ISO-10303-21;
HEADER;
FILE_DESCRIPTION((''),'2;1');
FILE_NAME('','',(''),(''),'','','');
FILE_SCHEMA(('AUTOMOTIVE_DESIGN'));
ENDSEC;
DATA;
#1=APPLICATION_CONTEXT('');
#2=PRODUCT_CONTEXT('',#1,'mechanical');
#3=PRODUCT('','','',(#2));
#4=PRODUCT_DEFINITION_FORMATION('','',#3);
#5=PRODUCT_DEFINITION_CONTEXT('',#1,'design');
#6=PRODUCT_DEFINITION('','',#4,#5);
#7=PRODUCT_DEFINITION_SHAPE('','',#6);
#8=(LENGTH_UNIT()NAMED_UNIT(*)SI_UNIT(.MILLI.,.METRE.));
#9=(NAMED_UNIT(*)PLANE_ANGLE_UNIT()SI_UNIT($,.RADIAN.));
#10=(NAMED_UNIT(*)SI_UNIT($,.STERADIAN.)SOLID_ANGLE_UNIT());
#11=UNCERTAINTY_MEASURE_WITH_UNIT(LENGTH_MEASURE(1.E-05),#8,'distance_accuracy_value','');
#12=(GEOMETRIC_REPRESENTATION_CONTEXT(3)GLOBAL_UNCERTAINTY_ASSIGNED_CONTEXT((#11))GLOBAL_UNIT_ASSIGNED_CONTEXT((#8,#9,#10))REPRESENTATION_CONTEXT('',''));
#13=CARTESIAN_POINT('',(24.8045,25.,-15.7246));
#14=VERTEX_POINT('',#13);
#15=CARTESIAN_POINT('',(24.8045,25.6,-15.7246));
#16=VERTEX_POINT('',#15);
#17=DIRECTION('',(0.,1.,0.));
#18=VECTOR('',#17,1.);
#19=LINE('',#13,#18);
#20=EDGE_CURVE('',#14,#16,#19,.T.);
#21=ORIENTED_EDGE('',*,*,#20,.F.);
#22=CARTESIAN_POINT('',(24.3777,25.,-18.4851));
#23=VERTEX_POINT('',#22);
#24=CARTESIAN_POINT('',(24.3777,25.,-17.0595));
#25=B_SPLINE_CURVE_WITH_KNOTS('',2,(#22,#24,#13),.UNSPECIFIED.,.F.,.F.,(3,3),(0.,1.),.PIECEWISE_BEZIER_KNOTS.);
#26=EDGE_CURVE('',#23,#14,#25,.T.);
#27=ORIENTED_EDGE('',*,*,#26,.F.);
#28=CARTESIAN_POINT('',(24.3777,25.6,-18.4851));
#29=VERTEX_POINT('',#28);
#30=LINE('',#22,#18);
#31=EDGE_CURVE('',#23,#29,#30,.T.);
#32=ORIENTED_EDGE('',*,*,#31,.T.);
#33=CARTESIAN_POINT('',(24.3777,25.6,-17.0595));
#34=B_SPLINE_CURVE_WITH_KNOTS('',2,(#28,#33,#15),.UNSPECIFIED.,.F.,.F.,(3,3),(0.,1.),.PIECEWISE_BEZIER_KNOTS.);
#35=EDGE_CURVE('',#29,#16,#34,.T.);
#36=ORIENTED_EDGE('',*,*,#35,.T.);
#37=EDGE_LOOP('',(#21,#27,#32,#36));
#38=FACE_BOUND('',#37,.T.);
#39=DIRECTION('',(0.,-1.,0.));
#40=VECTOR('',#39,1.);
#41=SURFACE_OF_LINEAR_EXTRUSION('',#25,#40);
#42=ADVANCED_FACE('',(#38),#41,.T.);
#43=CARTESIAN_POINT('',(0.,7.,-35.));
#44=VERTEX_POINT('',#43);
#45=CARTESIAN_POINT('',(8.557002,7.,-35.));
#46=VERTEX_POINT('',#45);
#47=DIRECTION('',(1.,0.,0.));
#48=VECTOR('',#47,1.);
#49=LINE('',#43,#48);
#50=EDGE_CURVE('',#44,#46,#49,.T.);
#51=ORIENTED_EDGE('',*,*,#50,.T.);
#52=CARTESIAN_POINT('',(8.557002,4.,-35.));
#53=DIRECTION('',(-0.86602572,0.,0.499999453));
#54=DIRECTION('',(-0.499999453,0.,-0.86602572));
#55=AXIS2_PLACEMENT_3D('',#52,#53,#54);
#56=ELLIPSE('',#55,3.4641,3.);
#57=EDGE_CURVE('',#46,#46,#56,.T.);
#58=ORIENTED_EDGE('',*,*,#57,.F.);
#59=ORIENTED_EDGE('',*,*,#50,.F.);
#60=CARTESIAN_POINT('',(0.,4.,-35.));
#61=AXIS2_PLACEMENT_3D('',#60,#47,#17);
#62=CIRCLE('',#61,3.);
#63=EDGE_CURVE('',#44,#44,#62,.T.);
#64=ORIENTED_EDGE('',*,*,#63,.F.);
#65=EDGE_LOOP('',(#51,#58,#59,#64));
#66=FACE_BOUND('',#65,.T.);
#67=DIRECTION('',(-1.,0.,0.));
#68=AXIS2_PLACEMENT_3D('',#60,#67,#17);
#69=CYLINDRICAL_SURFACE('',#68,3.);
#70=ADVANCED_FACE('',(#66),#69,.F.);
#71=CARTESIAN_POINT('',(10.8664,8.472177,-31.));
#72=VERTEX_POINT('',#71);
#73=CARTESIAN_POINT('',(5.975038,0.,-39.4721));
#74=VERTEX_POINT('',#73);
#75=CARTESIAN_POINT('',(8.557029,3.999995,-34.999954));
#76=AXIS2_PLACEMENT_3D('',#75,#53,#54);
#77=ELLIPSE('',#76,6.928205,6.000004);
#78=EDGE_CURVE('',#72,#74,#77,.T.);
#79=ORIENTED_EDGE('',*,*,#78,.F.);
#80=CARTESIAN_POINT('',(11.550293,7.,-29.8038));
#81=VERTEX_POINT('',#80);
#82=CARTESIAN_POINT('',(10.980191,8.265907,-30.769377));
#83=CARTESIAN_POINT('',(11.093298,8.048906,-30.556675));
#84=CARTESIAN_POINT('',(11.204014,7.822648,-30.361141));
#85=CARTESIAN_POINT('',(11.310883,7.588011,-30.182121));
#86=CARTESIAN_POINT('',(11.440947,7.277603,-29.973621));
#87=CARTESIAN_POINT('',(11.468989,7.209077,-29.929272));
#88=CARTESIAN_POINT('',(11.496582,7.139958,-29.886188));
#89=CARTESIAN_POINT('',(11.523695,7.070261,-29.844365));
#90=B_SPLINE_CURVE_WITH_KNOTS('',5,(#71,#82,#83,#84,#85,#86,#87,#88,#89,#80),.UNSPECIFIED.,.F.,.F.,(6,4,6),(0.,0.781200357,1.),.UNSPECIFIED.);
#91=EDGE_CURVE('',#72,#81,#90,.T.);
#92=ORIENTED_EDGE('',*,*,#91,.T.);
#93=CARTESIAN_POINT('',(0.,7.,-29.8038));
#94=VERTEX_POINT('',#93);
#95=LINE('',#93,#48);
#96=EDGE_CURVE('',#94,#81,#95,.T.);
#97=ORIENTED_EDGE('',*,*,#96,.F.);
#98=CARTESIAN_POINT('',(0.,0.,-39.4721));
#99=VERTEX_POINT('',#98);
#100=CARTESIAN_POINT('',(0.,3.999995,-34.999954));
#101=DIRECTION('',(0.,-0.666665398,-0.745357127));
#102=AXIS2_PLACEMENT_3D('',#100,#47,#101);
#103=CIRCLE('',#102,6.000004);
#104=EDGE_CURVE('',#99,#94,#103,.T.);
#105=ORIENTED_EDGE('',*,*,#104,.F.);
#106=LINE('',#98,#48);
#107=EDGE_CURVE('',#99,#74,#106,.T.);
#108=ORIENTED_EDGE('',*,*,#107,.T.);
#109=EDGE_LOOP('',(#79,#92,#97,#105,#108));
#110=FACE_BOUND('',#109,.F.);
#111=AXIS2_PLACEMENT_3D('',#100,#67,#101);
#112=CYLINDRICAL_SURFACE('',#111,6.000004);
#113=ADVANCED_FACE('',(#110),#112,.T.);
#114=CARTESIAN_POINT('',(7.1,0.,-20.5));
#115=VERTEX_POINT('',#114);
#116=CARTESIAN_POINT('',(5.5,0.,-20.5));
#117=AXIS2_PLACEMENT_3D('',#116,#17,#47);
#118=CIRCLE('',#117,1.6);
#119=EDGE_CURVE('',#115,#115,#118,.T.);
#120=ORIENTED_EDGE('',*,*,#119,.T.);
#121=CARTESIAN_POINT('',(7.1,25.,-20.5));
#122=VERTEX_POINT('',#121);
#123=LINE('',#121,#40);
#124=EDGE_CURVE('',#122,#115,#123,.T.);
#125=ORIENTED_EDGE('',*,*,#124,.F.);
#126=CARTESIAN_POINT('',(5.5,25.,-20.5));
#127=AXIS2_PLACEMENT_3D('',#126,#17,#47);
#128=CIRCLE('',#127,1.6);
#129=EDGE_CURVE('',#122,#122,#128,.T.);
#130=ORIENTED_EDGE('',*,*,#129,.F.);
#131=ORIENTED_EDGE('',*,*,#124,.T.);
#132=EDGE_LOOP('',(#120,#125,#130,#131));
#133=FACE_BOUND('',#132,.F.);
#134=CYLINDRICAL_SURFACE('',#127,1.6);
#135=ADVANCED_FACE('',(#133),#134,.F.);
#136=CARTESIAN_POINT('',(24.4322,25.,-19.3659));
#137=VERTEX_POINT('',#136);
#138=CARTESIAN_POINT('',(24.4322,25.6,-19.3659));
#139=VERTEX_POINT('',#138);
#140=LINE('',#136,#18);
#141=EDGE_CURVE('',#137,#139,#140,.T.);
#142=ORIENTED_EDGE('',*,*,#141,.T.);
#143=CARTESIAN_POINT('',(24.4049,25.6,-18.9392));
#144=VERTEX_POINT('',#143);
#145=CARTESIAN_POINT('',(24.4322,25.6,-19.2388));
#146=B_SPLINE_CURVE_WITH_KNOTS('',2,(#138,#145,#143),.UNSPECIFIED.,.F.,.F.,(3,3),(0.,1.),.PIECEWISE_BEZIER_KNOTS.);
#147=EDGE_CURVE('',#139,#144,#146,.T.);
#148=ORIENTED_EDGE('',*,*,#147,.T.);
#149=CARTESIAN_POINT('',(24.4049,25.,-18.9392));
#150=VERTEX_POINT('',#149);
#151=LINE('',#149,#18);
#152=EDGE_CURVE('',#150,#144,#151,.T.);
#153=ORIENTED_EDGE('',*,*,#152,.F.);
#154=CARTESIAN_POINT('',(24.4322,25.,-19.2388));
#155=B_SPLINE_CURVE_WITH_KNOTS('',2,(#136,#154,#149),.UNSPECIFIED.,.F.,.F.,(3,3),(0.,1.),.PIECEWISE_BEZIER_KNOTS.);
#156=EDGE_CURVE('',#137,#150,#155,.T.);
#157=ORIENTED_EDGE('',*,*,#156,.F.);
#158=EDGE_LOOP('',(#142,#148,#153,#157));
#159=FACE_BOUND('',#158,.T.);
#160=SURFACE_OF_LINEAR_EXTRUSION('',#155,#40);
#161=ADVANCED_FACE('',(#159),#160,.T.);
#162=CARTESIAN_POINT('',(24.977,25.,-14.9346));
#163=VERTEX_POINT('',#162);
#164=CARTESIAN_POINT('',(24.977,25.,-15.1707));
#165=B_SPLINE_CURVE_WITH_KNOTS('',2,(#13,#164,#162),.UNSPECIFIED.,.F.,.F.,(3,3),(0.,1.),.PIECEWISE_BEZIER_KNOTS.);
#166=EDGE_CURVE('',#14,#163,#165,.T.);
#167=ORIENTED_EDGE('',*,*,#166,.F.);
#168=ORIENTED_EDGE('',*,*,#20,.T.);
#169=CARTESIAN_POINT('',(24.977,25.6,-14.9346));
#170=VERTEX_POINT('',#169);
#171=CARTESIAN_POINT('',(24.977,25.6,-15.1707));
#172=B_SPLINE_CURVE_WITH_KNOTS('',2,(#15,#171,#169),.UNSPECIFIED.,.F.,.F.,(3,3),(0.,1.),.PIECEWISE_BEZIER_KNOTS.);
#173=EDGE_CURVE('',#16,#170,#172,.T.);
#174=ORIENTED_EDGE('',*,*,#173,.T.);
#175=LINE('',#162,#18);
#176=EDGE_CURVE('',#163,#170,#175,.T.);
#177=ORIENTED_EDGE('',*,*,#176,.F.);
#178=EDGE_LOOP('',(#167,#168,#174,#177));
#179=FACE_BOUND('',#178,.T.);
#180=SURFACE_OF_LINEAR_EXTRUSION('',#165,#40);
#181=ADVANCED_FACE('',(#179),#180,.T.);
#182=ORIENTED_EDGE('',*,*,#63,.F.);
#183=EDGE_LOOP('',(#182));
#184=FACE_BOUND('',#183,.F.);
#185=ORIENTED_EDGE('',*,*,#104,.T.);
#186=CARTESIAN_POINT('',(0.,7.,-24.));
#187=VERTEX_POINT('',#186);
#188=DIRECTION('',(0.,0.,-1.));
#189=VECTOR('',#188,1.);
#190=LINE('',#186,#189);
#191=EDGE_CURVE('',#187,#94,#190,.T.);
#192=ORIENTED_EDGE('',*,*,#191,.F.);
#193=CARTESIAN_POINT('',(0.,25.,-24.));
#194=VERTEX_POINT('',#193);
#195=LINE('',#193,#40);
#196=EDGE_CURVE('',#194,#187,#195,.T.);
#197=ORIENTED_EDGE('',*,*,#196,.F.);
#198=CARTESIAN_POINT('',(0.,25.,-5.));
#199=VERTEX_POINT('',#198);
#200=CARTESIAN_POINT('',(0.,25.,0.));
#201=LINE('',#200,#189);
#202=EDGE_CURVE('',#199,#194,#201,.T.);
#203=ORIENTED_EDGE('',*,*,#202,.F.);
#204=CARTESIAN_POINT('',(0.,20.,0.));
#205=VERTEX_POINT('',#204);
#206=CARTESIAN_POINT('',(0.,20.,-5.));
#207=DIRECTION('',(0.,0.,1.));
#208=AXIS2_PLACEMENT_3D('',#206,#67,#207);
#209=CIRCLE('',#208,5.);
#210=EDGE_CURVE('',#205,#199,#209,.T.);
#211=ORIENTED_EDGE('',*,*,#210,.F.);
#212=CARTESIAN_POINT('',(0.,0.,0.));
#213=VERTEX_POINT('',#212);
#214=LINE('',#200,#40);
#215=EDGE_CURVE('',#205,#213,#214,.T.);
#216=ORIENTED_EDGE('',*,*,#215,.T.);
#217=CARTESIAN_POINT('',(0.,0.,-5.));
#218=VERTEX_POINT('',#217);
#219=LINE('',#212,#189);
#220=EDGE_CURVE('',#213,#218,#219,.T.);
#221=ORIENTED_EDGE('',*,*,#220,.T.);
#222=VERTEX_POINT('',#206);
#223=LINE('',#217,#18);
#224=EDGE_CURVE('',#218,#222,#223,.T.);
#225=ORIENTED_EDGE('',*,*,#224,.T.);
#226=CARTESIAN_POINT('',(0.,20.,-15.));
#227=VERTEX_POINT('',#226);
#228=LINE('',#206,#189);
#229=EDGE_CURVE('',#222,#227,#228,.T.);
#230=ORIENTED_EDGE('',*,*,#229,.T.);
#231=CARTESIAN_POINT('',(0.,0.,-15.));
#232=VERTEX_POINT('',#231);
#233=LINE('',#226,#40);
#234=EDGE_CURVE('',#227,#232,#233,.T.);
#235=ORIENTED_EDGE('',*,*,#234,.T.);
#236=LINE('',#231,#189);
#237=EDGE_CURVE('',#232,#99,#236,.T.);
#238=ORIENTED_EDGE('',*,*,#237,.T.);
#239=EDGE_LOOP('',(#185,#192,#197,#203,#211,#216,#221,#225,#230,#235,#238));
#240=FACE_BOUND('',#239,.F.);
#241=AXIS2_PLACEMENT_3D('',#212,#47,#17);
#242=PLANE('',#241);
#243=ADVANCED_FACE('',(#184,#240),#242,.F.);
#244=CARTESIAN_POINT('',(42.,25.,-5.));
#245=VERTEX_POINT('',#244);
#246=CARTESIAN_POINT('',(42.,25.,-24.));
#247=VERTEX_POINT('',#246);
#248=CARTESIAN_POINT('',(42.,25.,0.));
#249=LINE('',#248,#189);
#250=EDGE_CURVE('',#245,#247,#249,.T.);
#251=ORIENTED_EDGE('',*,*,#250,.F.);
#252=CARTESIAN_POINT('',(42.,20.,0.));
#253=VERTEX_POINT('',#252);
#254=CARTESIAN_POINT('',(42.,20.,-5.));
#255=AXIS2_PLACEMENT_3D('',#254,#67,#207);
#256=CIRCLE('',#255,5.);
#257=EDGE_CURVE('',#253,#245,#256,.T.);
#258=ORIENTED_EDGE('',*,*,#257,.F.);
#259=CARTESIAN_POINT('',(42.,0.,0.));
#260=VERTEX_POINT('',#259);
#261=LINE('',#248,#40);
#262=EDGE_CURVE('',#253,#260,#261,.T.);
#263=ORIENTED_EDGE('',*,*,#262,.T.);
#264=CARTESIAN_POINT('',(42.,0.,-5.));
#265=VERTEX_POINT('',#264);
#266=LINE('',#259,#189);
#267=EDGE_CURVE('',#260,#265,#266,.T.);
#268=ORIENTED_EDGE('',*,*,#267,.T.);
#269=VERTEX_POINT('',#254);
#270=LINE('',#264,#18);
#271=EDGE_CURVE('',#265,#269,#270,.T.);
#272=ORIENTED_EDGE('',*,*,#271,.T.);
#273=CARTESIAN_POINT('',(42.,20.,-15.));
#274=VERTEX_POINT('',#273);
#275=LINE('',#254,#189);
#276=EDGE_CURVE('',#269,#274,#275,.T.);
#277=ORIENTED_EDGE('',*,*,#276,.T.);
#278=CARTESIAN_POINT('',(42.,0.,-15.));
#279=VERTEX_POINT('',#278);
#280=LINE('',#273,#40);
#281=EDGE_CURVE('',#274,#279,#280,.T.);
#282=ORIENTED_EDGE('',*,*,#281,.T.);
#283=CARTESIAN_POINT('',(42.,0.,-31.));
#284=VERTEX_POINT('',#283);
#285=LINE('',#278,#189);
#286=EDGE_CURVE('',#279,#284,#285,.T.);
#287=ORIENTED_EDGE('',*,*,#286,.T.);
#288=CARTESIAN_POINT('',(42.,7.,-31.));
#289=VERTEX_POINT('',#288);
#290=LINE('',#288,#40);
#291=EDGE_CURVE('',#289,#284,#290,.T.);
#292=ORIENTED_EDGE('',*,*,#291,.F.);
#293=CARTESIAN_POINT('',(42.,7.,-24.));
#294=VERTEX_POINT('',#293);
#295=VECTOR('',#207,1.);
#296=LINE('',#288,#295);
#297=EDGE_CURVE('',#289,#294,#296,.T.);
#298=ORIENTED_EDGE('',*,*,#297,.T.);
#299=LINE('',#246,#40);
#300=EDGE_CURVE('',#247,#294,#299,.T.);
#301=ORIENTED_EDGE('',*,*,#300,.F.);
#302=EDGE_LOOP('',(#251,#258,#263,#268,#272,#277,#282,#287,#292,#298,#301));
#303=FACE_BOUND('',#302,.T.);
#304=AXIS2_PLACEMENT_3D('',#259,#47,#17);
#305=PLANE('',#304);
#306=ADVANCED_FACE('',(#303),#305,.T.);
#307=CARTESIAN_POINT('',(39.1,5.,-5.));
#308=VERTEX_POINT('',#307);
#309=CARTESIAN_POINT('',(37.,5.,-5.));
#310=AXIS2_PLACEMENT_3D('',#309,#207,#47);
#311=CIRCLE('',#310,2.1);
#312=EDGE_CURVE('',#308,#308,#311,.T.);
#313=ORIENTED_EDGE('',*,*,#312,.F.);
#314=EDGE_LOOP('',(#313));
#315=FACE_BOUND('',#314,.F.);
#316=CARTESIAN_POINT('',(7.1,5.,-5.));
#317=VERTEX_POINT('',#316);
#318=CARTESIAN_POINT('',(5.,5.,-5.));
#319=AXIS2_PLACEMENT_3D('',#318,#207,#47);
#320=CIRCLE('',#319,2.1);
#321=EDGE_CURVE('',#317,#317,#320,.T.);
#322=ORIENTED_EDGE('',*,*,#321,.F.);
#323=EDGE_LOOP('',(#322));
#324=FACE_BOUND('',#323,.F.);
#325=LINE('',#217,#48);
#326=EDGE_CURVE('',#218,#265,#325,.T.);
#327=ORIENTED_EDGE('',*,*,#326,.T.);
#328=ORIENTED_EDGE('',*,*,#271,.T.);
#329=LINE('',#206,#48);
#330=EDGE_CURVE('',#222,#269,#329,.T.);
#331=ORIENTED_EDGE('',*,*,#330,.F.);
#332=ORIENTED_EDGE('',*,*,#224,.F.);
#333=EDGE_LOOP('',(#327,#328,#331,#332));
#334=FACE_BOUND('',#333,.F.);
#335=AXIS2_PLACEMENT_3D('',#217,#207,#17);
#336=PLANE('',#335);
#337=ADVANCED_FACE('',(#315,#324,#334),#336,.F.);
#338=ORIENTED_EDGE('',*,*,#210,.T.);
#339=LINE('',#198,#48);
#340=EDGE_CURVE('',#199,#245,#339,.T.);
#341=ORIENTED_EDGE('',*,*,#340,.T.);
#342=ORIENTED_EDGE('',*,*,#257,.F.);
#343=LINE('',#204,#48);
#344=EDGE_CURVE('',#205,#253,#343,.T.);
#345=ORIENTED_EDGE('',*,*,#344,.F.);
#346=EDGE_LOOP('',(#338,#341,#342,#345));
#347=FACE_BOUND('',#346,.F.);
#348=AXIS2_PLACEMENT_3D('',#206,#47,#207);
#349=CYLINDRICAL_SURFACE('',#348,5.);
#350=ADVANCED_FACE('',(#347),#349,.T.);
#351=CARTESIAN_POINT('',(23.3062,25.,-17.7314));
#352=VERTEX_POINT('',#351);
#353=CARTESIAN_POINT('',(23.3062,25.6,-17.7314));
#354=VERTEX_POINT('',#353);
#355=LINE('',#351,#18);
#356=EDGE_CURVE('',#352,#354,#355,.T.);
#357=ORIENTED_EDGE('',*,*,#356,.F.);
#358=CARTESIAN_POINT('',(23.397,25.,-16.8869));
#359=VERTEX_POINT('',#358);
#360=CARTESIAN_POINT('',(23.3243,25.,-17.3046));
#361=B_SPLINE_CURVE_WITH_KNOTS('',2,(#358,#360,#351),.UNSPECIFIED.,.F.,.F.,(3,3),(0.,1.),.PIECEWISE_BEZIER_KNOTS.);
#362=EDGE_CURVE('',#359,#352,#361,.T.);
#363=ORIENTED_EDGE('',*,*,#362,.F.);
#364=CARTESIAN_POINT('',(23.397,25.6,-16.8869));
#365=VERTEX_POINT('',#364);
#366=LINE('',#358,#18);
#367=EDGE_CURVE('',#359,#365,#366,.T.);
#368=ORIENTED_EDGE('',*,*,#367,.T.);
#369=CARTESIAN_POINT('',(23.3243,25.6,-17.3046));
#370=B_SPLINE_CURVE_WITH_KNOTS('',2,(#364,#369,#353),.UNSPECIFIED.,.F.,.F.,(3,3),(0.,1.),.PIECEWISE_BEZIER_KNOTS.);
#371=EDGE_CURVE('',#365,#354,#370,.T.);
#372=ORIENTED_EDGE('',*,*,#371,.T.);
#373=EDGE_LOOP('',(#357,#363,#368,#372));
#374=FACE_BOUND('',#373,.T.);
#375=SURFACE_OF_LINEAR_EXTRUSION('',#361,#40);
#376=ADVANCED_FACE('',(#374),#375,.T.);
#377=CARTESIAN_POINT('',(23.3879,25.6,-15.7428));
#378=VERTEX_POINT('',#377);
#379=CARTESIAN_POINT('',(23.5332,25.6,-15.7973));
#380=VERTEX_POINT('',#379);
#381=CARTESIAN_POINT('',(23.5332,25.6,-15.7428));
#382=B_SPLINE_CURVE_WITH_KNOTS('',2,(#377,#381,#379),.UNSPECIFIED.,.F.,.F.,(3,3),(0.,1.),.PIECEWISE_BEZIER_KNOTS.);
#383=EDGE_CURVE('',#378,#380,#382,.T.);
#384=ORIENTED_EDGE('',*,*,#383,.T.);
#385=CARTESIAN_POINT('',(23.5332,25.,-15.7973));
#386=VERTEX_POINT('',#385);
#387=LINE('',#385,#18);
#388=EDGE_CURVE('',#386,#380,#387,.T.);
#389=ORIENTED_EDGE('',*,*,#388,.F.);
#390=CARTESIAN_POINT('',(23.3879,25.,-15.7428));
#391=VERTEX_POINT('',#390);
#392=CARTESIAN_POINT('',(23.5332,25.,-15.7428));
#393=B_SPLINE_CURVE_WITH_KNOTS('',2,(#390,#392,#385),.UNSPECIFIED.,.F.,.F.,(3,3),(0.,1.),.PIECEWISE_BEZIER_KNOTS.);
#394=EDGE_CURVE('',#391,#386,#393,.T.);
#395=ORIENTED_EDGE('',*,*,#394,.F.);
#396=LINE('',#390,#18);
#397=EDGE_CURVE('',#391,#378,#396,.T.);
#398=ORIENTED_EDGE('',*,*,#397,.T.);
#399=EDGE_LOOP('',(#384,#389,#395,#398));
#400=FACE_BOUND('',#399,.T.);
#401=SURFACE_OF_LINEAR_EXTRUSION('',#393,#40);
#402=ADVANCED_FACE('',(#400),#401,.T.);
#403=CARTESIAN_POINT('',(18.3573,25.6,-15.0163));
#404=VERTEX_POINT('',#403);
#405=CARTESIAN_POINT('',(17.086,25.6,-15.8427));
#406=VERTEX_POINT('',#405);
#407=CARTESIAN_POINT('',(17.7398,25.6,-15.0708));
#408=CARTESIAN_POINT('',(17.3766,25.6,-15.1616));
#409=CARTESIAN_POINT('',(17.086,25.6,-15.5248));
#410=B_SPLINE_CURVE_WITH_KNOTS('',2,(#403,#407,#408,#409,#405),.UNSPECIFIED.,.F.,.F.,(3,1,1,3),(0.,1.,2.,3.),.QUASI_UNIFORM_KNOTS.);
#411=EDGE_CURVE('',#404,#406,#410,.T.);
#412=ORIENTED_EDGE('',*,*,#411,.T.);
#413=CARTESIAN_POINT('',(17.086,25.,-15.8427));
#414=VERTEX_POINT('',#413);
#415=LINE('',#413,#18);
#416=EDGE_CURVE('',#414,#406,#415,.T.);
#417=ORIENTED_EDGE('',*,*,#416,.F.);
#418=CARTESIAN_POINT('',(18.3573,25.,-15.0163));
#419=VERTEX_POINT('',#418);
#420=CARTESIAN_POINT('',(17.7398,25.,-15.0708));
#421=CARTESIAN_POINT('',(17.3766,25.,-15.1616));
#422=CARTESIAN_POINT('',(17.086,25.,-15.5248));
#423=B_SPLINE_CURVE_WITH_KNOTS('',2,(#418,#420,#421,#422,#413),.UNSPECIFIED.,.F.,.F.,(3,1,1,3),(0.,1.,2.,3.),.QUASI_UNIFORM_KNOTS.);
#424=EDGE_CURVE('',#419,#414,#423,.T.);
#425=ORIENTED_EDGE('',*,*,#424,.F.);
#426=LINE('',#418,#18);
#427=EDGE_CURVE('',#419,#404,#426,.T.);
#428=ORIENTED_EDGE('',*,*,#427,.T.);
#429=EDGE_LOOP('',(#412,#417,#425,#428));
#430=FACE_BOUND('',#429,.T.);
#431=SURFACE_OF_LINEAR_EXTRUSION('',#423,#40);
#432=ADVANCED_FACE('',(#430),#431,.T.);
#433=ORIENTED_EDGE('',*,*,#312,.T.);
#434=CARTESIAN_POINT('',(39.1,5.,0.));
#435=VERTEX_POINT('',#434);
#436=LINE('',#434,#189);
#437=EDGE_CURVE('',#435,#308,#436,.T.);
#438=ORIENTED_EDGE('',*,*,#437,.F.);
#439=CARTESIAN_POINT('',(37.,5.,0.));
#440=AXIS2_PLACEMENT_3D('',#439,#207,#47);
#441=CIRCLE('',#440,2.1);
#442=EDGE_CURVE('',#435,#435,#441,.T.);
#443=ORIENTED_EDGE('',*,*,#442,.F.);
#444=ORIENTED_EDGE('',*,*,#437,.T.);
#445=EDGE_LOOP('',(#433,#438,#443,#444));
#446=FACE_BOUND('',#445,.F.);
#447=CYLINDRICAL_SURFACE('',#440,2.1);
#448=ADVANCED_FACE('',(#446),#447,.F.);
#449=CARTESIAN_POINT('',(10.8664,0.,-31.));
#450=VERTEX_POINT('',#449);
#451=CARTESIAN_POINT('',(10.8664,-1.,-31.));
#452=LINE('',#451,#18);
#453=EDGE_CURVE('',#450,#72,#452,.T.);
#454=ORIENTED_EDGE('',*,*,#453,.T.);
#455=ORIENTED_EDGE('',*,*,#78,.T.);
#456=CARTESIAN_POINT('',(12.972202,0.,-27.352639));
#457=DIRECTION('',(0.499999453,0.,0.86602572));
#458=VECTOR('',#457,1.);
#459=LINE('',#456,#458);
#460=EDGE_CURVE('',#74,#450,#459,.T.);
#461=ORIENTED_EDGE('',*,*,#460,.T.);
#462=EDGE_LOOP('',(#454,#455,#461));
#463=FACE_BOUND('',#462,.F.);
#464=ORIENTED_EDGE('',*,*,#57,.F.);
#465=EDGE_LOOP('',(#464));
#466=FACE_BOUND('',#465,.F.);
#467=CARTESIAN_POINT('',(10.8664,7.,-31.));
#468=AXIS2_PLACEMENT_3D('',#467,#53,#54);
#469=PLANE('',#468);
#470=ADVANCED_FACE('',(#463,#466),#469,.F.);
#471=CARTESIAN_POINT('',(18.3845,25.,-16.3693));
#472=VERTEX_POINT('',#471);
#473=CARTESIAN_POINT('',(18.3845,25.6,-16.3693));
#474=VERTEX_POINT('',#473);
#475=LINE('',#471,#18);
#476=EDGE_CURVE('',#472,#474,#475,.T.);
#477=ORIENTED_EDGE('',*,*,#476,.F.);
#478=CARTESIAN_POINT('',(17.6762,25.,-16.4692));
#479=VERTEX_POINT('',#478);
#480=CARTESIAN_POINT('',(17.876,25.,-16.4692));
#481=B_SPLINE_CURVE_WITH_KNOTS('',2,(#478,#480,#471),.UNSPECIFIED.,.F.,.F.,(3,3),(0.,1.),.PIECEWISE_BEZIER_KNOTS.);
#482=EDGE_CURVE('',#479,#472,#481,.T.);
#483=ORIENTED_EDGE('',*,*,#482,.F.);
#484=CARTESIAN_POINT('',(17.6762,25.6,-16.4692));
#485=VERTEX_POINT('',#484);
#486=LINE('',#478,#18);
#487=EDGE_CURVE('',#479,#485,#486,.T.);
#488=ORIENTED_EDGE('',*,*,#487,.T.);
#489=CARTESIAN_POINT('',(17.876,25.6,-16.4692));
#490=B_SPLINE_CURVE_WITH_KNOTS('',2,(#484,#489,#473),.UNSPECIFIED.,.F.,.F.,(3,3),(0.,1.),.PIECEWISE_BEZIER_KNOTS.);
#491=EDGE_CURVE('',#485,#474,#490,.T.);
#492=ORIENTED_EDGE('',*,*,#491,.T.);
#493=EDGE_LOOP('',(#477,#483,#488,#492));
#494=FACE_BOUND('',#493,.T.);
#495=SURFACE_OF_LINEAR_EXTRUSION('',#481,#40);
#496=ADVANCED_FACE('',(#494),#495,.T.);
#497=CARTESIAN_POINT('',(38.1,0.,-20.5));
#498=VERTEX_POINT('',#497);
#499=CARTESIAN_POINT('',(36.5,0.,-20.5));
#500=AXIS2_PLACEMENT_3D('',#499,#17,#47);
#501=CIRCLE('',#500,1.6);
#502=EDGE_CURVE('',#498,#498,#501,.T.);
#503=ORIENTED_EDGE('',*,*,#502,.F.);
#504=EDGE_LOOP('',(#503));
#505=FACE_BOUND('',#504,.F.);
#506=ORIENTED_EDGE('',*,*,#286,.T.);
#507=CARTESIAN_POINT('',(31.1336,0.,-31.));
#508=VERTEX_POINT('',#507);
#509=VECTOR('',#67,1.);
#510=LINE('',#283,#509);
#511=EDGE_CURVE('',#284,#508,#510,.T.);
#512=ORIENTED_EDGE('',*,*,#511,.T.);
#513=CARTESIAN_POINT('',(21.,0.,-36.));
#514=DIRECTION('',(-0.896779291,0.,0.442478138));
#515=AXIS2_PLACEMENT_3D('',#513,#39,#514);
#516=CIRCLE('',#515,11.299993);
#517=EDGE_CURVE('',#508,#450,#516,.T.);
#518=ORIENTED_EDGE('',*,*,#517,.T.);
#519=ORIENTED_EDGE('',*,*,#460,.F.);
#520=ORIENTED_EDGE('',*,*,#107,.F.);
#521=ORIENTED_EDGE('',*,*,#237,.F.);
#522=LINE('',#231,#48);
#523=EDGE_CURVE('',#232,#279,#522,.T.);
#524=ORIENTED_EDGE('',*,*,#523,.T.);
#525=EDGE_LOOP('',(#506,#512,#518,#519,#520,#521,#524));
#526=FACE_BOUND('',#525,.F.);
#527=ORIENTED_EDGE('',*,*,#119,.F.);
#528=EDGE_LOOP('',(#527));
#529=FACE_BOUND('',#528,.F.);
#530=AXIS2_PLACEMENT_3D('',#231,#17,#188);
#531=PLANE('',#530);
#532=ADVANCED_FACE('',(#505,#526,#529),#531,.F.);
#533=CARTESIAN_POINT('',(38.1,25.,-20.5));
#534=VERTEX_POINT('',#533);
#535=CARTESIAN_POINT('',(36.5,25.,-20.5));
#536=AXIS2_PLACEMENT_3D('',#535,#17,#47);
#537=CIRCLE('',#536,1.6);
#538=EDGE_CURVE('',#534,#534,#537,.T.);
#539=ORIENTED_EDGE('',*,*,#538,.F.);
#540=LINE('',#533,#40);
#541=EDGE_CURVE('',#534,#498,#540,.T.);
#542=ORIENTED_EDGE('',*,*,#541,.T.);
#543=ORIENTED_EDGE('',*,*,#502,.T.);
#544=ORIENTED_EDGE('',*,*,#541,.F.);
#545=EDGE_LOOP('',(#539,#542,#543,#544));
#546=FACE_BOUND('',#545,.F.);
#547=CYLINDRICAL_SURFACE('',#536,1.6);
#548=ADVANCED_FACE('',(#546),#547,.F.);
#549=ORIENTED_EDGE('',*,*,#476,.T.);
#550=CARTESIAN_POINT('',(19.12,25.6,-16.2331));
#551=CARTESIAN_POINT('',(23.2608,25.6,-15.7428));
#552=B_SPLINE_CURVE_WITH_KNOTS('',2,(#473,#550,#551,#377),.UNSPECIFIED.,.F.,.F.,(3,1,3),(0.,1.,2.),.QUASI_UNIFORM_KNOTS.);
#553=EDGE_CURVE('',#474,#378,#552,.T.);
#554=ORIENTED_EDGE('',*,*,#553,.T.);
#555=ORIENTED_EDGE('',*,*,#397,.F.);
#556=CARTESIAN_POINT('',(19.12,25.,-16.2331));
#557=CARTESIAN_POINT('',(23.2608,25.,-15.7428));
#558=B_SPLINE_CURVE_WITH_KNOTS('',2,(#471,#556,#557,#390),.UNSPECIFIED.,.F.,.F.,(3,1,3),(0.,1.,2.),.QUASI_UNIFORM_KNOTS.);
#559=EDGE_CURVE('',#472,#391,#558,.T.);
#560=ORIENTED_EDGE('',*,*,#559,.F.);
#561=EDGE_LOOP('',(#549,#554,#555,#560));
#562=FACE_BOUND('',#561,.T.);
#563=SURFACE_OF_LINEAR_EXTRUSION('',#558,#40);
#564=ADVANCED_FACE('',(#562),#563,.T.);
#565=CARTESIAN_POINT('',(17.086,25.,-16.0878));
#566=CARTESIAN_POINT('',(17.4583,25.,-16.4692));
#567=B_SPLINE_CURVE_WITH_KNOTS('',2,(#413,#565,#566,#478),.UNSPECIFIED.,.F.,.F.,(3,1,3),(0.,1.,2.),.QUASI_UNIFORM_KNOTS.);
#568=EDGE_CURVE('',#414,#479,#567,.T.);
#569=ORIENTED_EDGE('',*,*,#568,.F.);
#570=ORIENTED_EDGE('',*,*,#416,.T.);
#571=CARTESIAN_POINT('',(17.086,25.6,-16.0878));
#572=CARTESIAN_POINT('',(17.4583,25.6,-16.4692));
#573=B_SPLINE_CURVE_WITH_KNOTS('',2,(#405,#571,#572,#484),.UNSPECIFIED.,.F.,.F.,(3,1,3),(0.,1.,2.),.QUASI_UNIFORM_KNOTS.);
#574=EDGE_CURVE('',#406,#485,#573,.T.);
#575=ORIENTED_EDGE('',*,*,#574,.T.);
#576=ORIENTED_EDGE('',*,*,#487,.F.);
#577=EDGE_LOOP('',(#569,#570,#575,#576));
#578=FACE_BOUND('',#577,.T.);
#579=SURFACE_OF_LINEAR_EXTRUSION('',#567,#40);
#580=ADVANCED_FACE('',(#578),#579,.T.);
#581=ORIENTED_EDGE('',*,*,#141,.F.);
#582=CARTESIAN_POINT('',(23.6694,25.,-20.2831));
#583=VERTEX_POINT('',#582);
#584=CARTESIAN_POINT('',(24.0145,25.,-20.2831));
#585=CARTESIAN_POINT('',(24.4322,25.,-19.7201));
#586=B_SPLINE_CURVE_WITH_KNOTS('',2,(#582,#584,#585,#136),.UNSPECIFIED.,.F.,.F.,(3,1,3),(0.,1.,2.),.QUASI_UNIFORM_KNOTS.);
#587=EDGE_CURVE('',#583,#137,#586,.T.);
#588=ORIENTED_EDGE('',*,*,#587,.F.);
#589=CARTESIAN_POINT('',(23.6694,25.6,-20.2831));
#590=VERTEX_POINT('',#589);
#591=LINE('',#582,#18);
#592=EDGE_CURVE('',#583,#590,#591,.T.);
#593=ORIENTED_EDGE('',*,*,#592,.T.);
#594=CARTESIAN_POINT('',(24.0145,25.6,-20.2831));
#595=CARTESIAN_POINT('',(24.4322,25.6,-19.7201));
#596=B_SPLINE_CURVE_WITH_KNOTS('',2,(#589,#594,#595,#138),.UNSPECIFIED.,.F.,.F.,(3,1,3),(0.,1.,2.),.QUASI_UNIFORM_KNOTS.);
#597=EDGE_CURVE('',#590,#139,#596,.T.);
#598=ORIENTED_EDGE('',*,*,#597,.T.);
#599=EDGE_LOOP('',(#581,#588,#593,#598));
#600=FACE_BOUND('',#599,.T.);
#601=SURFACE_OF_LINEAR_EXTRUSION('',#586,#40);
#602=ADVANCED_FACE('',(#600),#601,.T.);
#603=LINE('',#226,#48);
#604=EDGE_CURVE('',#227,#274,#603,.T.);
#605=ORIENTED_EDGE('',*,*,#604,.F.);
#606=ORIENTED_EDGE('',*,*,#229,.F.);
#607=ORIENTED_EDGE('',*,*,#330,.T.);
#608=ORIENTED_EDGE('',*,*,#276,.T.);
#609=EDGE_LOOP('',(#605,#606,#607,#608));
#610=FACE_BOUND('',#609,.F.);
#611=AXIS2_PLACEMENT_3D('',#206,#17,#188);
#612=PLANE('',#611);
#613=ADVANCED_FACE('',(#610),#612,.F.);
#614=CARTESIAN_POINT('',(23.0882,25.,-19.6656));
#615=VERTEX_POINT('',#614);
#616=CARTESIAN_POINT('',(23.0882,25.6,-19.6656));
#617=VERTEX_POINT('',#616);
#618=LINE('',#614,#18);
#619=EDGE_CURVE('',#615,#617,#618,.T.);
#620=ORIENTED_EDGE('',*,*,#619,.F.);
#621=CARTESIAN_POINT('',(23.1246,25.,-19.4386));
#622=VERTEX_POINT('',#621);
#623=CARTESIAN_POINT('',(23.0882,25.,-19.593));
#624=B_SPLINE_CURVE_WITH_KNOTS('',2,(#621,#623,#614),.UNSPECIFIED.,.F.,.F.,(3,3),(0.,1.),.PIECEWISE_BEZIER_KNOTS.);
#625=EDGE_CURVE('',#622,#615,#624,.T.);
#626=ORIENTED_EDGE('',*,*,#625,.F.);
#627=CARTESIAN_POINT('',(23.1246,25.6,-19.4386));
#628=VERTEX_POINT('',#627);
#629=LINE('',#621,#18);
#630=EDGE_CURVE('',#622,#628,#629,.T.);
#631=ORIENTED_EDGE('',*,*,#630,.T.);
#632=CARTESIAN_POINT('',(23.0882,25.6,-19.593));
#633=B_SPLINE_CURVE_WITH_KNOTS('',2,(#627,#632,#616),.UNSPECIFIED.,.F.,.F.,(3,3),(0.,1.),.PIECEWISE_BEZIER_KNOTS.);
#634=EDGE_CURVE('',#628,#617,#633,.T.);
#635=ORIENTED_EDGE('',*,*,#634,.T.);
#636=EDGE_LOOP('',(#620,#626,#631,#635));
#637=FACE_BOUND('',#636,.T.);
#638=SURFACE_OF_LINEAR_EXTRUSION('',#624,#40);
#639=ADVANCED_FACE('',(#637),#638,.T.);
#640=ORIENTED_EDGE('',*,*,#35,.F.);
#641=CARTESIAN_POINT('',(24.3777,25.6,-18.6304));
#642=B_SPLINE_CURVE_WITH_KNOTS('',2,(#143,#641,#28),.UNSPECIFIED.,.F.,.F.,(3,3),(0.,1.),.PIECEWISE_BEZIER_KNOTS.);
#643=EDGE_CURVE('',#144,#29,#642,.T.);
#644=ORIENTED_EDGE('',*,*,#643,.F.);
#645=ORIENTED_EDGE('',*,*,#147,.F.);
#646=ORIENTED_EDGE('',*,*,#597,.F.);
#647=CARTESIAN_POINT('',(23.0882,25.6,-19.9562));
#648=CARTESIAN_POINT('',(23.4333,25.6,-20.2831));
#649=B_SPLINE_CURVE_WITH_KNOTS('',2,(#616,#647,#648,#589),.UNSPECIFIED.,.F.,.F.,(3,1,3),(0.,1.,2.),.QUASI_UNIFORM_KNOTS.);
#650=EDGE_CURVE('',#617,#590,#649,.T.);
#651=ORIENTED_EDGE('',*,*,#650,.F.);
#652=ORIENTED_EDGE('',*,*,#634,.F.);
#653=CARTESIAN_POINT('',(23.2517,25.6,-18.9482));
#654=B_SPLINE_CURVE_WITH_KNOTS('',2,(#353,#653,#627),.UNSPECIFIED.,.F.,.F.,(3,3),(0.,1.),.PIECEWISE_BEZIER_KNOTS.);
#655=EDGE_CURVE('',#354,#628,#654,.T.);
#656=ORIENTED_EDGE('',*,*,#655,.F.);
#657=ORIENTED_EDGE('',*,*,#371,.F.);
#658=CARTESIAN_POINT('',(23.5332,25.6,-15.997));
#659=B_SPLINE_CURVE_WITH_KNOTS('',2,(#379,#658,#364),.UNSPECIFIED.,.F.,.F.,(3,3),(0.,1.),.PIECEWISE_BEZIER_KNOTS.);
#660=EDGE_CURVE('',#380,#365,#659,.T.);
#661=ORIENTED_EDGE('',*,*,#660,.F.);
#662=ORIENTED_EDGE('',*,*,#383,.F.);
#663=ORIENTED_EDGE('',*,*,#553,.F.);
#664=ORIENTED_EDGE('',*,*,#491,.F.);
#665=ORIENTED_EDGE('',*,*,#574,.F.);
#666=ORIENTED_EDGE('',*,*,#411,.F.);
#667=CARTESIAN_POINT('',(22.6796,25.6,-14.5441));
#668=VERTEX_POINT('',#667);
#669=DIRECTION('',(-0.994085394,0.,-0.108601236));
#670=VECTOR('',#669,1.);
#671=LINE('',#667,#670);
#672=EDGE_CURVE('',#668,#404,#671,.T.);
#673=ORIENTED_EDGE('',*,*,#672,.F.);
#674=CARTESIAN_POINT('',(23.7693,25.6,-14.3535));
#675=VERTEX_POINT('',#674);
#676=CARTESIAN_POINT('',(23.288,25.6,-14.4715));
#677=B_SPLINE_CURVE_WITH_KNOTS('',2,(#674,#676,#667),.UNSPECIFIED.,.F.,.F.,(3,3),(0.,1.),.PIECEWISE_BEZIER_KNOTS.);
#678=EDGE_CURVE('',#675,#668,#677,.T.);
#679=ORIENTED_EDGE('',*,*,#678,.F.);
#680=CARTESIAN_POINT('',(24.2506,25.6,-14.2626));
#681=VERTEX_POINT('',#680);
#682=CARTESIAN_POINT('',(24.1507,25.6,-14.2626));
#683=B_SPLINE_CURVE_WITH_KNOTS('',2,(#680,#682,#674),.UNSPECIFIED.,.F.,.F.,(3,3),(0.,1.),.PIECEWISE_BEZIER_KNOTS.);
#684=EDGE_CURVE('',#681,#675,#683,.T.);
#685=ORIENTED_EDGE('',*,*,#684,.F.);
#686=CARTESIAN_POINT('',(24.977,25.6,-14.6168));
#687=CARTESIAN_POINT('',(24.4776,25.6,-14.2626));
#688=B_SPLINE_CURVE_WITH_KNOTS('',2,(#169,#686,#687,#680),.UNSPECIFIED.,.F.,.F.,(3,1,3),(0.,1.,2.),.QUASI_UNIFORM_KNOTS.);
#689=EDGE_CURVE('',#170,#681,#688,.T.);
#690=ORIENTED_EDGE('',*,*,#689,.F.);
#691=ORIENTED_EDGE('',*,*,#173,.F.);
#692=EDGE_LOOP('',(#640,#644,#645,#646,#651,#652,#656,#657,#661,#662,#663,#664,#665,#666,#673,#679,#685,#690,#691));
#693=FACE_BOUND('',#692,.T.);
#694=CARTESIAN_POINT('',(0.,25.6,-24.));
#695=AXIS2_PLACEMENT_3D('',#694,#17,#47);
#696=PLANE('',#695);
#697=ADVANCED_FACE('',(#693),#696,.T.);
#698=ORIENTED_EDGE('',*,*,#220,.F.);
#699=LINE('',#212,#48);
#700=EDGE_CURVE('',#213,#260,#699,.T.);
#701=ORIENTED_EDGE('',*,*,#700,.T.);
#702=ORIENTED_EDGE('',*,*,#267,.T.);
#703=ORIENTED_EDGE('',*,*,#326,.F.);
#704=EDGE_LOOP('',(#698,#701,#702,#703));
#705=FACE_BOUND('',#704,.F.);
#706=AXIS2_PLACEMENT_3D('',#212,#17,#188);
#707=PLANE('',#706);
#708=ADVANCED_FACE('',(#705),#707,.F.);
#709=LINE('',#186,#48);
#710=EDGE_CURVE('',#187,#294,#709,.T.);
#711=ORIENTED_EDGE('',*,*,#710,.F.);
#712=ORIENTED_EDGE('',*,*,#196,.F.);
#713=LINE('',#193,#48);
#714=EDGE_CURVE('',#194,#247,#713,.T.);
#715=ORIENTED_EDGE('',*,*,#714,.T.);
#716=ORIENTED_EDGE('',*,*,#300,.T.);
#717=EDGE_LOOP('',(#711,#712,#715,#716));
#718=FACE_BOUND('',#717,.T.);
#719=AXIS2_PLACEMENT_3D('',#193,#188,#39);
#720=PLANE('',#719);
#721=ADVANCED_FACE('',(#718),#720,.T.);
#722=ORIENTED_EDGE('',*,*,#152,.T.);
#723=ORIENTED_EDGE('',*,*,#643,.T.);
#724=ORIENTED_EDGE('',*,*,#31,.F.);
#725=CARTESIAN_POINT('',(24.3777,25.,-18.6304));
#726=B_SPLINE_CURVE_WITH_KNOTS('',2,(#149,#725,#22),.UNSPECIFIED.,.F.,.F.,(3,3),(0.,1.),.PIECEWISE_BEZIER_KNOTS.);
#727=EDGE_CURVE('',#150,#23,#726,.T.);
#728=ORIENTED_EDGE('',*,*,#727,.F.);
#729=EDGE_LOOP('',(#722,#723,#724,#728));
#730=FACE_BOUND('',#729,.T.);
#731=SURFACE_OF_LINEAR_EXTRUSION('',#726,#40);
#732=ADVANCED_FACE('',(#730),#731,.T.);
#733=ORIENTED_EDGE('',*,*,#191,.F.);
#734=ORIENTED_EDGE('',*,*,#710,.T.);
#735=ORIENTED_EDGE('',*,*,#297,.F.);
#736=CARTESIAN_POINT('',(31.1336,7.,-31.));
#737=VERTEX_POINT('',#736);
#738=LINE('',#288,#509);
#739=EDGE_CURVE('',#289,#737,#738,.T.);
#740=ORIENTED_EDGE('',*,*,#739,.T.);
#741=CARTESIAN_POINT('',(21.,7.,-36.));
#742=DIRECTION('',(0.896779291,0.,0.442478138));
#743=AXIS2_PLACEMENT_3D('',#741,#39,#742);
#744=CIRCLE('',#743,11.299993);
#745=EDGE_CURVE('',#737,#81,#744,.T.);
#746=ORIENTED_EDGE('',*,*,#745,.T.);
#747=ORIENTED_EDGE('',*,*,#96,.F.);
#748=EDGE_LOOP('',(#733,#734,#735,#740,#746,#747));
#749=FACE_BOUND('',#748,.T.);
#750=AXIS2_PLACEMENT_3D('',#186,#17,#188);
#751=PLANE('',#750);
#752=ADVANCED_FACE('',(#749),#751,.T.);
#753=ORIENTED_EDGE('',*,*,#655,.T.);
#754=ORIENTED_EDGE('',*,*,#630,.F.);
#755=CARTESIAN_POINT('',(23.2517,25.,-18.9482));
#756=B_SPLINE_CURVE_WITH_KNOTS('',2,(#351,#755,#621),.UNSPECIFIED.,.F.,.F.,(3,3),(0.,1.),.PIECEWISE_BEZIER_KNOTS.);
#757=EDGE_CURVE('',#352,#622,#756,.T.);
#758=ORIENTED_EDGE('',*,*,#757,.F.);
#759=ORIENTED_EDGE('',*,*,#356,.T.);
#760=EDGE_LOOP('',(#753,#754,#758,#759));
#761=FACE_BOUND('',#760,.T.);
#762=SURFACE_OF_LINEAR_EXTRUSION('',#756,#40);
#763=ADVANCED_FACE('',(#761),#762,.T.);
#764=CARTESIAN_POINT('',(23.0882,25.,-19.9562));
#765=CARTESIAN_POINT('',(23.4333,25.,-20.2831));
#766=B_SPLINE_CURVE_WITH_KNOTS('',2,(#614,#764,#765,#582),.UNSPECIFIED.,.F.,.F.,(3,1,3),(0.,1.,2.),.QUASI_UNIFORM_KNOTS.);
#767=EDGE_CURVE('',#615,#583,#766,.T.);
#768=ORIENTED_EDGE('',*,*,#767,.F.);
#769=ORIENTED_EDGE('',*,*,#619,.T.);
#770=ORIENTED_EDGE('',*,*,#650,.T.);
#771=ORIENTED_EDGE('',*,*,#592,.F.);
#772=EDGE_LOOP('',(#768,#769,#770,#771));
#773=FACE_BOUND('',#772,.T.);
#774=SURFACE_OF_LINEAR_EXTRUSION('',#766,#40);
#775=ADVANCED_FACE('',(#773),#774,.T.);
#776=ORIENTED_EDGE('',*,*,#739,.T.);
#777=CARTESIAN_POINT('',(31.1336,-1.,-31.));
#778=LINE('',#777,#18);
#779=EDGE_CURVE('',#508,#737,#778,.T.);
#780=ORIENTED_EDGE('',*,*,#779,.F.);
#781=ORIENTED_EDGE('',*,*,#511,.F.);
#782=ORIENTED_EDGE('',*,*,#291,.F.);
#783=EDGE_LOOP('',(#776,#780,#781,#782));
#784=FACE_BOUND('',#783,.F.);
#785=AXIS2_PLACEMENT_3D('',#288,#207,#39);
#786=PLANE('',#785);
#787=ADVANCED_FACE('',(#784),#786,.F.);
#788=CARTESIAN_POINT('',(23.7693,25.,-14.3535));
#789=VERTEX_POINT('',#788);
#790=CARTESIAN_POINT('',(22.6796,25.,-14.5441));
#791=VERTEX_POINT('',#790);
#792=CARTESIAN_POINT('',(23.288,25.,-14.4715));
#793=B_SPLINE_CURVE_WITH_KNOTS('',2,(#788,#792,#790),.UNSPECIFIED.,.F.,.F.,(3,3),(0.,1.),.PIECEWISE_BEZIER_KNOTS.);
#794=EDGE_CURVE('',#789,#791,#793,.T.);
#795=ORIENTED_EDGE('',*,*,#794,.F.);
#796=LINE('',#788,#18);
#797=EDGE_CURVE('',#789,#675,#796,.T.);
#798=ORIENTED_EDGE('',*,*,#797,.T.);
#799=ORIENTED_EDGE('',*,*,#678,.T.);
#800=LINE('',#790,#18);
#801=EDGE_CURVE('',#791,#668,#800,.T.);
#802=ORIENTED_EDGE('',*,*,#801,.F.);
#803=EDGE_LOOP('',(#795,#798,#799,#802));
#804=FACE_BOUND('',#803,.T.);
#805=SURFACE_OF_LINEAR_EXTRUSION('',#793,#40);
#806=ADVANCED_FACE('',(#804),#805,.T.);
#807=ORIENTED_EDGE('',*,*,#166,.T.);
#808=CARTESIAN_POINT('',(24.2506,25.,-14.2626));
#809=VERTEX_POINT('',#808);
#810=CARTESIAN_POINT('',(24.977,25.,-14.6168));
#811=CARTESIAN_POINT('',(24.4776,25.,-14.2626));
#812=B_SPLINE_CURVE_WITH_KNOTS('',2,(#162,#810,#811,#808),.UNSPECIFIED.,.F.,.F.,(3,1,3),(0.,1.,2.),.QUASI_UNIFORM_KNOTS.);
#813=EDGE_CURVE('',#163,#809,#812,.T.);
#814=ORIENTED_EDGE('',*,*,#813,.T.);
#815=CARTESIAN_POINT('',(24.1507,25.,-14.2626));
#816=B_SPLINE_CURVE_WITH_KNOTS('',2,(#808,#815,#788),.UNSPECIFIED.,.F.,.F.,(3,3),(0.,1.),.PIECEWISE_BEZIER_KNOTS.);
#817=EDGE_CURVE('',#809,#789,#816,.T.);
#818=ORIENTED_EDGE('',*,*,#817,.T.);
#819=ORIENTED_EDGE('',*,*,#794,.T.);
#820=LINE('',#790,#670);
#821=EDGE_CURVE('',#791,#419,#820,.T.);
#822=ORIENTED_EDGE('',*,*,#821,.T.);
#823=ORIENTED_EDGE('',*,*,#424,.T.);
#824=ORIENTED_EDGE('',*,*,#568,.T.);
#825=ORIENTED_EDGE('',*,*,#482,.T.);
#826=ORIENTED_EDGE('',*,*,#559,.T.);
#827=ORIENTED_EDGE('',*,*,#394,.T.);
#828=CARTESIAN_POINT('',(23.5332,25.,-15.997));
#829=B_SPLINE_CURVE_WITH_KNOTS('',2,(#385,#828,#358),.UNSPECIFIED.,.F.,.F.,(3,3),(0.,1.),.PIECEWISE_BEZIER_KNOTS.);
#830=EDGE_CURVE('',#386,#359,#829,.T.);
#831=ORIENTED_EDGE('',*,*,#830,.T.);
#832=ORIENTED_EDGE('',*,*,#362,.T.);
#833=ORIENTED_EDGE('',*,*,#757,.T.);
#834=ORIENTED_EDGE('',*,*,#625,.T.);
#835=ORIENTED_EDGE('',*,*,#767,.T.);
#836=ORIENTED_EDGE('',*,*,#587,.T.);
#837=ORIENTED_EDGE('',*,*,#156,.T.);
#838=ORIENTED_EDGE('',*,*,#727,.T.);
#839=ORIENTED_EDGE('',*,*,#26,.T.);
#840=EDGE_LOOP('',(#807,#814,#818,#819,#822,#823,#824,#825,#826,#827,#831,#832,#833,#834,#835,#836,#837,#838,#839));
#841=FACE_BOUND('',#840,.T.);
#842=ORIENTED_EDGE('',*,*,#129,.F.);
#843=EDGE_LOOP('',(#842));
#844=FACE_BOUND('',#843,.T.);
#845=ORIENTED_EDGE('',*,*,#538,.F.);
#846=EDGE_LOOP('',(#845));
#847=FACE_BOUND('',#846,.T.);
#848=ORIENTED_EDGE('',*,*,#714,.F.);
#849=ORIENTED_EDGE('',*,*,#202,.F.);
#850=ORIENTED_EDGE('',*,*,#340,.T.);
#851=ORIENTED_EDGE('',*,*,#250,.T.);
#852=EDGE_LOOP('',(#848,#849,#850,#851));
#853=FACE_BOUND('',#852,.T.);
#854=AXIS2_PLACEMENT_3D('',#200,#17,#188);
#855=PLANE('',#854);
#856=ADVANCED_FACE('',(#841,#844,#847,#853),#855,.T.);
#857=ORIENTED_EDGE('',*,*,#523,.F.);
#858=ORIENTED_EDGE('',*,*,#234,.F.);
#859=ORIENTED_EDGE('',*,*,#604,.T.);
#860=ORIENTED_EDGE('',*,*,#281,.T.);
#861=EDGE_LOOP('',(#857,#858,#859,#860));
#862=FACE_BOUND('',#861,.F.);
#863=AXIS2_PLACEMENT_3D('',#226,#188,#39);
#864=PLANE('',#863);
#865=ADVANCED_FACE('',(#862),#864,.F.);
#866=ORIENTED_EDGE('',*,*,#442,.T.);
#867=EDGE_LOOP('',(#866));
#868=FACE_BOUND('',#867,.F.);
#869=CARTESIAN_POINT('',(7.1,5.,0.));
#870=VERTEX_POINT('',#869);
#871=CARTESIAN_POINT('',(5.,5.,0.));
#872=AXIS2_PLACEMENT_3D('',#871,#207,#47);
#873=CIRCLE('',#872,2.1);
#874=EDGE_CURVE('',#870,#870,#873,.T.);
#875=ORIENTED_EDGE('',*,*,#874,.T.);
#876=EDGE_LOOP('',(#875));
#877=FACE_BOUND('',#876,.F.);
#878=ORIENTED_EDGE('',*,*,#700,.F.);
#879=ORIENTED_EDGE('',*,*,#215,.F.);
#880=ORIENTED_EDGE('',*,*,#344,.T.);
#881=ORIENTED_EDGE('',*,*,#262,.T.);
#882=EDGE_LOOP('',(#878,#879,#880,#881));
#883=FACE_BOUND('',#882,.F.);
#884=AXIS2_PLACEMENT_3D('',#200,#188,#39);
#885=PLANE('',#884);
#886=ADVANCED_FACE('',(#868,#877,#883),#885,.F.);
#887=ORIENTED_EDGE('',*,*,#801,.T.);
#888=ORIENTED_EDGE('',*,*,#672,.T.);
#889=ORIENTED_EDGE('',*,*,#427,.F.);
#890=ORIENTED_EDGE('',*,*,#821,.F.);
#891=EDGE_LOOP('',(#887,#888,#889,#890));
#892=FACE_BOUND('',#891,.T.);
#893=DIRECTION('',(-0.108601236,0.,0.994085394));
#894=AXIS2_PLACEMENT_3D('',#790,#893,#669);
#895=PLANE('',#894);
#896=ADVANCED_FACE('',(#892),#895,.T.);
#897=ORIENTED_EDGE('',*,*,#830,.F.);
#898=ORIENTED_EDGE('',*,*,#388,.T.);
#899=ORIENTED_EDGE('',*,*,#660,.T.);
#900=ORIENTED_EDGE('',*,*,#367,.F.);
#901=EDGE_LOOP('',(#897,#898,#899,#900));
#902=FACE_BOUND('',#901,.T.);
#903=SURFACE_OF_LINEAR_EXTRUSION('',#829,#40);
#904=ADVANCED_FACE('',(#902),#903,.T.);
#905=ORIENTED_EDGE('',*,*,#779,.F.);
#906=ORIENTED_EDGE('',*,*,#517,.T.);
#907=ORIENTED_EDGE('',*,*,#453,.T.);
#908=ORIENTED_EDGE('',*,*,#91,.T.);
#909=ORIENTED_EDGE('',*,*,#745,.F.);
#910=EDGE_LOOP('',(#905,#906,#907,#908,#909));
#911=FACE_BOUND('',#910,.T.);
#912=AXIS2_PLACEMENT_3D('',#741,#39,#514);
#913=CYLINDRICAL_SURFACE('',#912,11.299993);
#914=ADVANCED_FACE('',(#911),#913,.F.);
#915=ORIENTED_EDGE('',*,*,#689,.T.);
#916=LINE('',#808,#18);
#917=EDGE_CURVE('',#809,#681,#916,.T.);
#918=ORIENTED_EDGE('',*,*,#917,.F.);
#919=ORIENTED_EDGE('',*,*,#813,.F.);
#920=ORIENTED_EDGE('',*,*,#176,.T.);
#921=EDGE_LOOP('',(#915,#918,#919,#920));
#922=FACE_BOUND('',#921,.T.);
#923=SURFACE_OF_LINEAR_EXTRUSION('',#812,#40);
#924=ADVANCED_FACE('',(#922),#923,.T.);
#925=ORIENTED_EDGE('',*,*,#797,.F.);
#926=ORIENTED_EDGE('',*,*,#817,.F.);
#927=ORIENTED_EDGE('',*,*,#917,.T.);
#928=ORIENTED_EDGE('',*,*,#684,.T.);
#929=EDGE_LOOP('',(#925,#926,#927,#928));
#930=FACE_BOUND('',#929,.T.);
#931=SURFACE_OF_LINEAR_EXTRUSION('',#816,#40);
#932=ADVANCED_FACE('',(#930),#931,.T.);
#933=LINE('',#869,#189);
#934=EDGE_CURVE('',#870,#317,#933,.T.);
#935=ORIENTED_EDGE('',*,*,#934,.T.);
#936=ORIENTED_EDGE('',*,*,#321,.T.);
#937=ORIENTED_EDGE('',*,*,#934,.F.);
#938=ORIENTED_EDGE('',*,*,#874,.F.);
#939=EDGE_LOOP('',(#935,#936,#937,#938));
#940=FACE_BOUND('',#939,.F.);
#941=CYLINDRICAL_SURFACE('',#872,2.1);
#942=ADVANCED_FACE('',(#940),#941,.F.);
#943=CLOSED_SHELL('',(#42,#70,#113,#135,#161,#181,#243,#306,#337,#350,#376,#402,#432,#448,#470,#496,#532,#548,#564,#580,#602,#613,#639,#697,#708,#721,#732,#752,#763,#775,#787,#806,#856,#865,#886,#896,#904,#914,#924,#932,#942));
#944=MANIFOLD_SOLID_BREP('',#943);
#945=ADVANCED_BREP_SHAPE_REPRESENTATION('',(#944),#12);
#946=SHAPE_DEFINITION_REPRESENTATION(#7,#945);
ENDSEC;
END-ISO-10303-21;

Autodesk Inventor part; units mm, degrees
ref_plane "YZ Plane" through (0, 0, 0) normal (1, 0, 0) x (0, 1, 0)
ref_plane "XZ Plane" through (0, 0, 0) normal (0, 1, 0) x (-1, 0, 0)
ref_plane "XY Plane" through (0, 0, 0) normal (0, 0, 1) x (1, 0, 0)
sketch "Sketch1" plane through (0, 0, 0) normal (1, 0, 0) x (0, 1, 0)
  line L0 (0, 0) -> (0, -5)
  line L1 (0, -5) -> (20, -5)
  line L2 (20, -5) -> (20, -15)
  line L3 (20, -15) -> (0, -15)
  line L4 (0, -15) -> (0, -39.4721)
  line L5 (25, 0) -> (25, -24)
  line L6 (25, -24) -> (7, -24)
  line L7 (7, -24) -> (7, -29.8038)
  line L8 (25, 0) -> (0, 0)
  circle A0 centre (4, -35) radius 3
  arc A1 (0, -39.4721) -> (7, -29.8038) centre (4, -35) ccw
  dimension "d0" = 5
  dimension "d1" = 20
  dimension "d2" = 10
  dimension "d5" = 5
  dimension "d6" = 7
  dimension "d7" = 6
  dimension "d8" = 20
  dimension "d9" = 4
  dimension "d10" = 6
  dimension "d45" = 9
extrude "Extrusion1" add sketch "Sketch1" along normal blind 42
fillet "Fillet1" radius 5 1 edges at (21, 25, 0)
sketch "Sketch2" plane through (0, 7, -24) normal (0, 1, 0) x (1, 0, 0)
  arc A0 (10.8664, 7) -> (31.1336, 7) centre (21, 12) ccw
  line L0 (0, 0) -> (42, 0) projected
  line L1 (10.8664, 7) -> (3.3664, 19.9904)
  line L2 (10.8664, 7) -> (25.8664, 7) construction
  line L3 (31.1336, 7) -> (38.6336, 19.9904)
  line L4 (31.1336, 7) -> (46.1336, 7) construction
  line L5 (38.6336, 19.9904) -> (3.3664, 19.9904)
  line L6 (0, 0) -> (42, 0) projected
  point P0 (0, -24)
  point P1 (21, 0)
  dimension "d14" = 11.3
  dimension "d15" = 12
  dimension "d16" = 7
  dimension "d17" = 15
  dimension "d18" = 120
  dimension "d19" = 15
  dimension "d20" = 60
extrude "Extrusion2" cut sketch "Sketch2" along normal through all both and the other way through all
sketch "Sketch3" plane through (42, 0, 0) normal (1, 0, 0) x (0, 0, -1)
  line L0 (29, 7) -> (31, 7)
  line L1 (31, 7) -> (31, 0)
  line L2 (31, 0) -> (43, 0)
  line L3 (43, 0) -> (43, 12)
  line L4 (43, 12) -> (29, 12)
  line L5 (29, 12) -> (29, 7)
  line L6 (15, 20) -> (15, 0) projected
  point P0 (0, 0)
  dimension "d23" = 7
  dimension "d24" = 16
  dimension "d25" = 2
  dimension "d26" = 12
  dimension "d27" = 14
extrude "Extrusion3" cut sketch "Sketch3" against normal up to surface
sketch "Sketch4" plane through (0, 25, -24) normal (0, 1, 0) x (1, 0, 0)
  circle A0 centre (5.5, -3.5) radius 1.6
  circle A1 centre (36.5, -3.5) radius 1.6
  line L0 (0, 0) -> (0, -19) projected
  line L1 (42, 0) -> (42, -19) projected
  line L2 (0, 0) -> (42, 0) projected
  point P0 (0, -24)
  dimension "d30" = 3.2
  dimension "d31" = 5.5
  dimension "d32" = 5.5
  dimension "d33" = 3.5
  dimension "d34" = 3.5
extrude "Extrusion4" cut sketch "Sketch4" against normal through all
sketch "Sketch5" plane through (0, 0, 0) normal (0, 0, 1) x (1, 0, 0)
  circle A0 centre (5, 5) radius 2.1
  circle A1 centre (37, 5) radius 2.1
  line L0 (0, 0) -> (42, 0) projected
  line L1 (0, 20) -> (0, 0) projected
  line L2 (42, 20) -> (42, 0) projected
  dimension "d37" = 4.2
  dimension "d38" = 5
  dimension "d39" = 5
  dimension "d40" = 5
extrude "Extrusion5" cut sketch "Sketch5" against normal up to next
sketch "Sketch6" plane through (0, 25, -24) normal (0, 1, 0) x (1, 0, 0)
  spline S0 degree 2 poles (24.4322, -4.6341) (24.4322, -4.7612) (24.4049, -5.0608) knots 0 0 0 1 1 1
  spline S1 degree 2 poles (24.4049, -5.0608) (24.3777, -5.3696) (24.3777, -5.5149) knots 0 0 0 1 1 1
  spline S2 degree 2 poles (24.3777, -5.5149) (24.3777, -6.9405) (24.8045, -8.2754) knots 0 0 0 1 1 1
  spline S3 degree 2 poles (24.8045, -8.2754) (24.977, -8.8293) (24.977, -9.0654) knots 0 0 0 1 1 1
  spline S4 degree 2 poles (24.977, -9.0654) (24.977, -9.3832) (24.4776, -9.7374) (24.2506, -9.7374) knots 0 0 0 1 2 2 2
  spline S5 degree 2 poles (24.2506, -9.7374) (24.1507, -9.7374) (23.7693, -9.6465) knots 0 0 0 1 1 1
  spline S6 degree 2 poles (23.7693, -9.6465) (23.288, -9.5285) (22.6796, -9.4559) knots 0 0 0 1 1 1
  line L0 (22.6796, -9.4559) -> (18.3573, -8.9837)
  spline S7 degree 2 poles (18.3573, -8.9837) (17.7398, -8.9292) (17.3766, -8.8384) (17.086, -8.4752) (17.086, -8.1573) knots 0 0 0 1 2 3 3 3
  spline S8 degree 2 poles (17.086, -8.1573) (17.086, -7.9122) (17.4583, -7.5308) (17.6762, -7.5308) knots 0 0 0 1 2 2 2
  spline S9 degree 2 poles (17.6762, -7.5308) (17.876, -7.5308) (18.3845, -7.6307) knots 0 0 0 1 1 1
  spline S10 degree 2 poles (18.3845, -7.6307) (19.12, -7.7669) (23.2608, -8.2572) (23.3879, -8.2572) knots 0 0 0 1 2 2 2
  spline S11 degree 2 poles (23.3879, -8.2572) (23.5332, -8.2572) (23.5332, -8.2027) knots 0 0 0 1 1 1
  spline S12 degree 2 poles (23.5332, -8.2027) (23.5332, -8.003) (23.397, -7.1131) knots 0 0 0 1 1 1
  spline S13 degree 2 poles (23.397, -7.1131) (23.3243, -6.6954) (23.3062, -6.2686) knots 0 0 0 1 1 1
  spline S14 degree 2 poles (23.3062, -6.2686) (23.2517, -5.0518) (23.1246, -4.5614) knots 0 0 0 1 1 1
  spline S15 degree 2 poles (23.1246, -4.5614) (23.0882, -4.407) (23.0882, -4.3344) knots 0 0 0 1 1 1
  spline S16 degree 2 poles (23.0882, -4.3344) (23.0882, -4.0438) (23.4333, -3.7169) (23.6694, -3.7169) knots 0 0 0 1 2 2 2
  spline S17 degree 2 poles (23.6694, -3.7169) (24.0145, -3.7169) (24.4322, -4.2799) (24.4322, -4.6341) knots 0 0 0 1 2 2 2
  point P0 (0, -24)
  point P1 (17.086, -10.4002)
extrude "Extrusion6" add sketch "Sketch6" along normal blind 0.6
equation "\"d32\" = d31"
equation "\"d40\" = d39"
properties material "ABS Plastic"
